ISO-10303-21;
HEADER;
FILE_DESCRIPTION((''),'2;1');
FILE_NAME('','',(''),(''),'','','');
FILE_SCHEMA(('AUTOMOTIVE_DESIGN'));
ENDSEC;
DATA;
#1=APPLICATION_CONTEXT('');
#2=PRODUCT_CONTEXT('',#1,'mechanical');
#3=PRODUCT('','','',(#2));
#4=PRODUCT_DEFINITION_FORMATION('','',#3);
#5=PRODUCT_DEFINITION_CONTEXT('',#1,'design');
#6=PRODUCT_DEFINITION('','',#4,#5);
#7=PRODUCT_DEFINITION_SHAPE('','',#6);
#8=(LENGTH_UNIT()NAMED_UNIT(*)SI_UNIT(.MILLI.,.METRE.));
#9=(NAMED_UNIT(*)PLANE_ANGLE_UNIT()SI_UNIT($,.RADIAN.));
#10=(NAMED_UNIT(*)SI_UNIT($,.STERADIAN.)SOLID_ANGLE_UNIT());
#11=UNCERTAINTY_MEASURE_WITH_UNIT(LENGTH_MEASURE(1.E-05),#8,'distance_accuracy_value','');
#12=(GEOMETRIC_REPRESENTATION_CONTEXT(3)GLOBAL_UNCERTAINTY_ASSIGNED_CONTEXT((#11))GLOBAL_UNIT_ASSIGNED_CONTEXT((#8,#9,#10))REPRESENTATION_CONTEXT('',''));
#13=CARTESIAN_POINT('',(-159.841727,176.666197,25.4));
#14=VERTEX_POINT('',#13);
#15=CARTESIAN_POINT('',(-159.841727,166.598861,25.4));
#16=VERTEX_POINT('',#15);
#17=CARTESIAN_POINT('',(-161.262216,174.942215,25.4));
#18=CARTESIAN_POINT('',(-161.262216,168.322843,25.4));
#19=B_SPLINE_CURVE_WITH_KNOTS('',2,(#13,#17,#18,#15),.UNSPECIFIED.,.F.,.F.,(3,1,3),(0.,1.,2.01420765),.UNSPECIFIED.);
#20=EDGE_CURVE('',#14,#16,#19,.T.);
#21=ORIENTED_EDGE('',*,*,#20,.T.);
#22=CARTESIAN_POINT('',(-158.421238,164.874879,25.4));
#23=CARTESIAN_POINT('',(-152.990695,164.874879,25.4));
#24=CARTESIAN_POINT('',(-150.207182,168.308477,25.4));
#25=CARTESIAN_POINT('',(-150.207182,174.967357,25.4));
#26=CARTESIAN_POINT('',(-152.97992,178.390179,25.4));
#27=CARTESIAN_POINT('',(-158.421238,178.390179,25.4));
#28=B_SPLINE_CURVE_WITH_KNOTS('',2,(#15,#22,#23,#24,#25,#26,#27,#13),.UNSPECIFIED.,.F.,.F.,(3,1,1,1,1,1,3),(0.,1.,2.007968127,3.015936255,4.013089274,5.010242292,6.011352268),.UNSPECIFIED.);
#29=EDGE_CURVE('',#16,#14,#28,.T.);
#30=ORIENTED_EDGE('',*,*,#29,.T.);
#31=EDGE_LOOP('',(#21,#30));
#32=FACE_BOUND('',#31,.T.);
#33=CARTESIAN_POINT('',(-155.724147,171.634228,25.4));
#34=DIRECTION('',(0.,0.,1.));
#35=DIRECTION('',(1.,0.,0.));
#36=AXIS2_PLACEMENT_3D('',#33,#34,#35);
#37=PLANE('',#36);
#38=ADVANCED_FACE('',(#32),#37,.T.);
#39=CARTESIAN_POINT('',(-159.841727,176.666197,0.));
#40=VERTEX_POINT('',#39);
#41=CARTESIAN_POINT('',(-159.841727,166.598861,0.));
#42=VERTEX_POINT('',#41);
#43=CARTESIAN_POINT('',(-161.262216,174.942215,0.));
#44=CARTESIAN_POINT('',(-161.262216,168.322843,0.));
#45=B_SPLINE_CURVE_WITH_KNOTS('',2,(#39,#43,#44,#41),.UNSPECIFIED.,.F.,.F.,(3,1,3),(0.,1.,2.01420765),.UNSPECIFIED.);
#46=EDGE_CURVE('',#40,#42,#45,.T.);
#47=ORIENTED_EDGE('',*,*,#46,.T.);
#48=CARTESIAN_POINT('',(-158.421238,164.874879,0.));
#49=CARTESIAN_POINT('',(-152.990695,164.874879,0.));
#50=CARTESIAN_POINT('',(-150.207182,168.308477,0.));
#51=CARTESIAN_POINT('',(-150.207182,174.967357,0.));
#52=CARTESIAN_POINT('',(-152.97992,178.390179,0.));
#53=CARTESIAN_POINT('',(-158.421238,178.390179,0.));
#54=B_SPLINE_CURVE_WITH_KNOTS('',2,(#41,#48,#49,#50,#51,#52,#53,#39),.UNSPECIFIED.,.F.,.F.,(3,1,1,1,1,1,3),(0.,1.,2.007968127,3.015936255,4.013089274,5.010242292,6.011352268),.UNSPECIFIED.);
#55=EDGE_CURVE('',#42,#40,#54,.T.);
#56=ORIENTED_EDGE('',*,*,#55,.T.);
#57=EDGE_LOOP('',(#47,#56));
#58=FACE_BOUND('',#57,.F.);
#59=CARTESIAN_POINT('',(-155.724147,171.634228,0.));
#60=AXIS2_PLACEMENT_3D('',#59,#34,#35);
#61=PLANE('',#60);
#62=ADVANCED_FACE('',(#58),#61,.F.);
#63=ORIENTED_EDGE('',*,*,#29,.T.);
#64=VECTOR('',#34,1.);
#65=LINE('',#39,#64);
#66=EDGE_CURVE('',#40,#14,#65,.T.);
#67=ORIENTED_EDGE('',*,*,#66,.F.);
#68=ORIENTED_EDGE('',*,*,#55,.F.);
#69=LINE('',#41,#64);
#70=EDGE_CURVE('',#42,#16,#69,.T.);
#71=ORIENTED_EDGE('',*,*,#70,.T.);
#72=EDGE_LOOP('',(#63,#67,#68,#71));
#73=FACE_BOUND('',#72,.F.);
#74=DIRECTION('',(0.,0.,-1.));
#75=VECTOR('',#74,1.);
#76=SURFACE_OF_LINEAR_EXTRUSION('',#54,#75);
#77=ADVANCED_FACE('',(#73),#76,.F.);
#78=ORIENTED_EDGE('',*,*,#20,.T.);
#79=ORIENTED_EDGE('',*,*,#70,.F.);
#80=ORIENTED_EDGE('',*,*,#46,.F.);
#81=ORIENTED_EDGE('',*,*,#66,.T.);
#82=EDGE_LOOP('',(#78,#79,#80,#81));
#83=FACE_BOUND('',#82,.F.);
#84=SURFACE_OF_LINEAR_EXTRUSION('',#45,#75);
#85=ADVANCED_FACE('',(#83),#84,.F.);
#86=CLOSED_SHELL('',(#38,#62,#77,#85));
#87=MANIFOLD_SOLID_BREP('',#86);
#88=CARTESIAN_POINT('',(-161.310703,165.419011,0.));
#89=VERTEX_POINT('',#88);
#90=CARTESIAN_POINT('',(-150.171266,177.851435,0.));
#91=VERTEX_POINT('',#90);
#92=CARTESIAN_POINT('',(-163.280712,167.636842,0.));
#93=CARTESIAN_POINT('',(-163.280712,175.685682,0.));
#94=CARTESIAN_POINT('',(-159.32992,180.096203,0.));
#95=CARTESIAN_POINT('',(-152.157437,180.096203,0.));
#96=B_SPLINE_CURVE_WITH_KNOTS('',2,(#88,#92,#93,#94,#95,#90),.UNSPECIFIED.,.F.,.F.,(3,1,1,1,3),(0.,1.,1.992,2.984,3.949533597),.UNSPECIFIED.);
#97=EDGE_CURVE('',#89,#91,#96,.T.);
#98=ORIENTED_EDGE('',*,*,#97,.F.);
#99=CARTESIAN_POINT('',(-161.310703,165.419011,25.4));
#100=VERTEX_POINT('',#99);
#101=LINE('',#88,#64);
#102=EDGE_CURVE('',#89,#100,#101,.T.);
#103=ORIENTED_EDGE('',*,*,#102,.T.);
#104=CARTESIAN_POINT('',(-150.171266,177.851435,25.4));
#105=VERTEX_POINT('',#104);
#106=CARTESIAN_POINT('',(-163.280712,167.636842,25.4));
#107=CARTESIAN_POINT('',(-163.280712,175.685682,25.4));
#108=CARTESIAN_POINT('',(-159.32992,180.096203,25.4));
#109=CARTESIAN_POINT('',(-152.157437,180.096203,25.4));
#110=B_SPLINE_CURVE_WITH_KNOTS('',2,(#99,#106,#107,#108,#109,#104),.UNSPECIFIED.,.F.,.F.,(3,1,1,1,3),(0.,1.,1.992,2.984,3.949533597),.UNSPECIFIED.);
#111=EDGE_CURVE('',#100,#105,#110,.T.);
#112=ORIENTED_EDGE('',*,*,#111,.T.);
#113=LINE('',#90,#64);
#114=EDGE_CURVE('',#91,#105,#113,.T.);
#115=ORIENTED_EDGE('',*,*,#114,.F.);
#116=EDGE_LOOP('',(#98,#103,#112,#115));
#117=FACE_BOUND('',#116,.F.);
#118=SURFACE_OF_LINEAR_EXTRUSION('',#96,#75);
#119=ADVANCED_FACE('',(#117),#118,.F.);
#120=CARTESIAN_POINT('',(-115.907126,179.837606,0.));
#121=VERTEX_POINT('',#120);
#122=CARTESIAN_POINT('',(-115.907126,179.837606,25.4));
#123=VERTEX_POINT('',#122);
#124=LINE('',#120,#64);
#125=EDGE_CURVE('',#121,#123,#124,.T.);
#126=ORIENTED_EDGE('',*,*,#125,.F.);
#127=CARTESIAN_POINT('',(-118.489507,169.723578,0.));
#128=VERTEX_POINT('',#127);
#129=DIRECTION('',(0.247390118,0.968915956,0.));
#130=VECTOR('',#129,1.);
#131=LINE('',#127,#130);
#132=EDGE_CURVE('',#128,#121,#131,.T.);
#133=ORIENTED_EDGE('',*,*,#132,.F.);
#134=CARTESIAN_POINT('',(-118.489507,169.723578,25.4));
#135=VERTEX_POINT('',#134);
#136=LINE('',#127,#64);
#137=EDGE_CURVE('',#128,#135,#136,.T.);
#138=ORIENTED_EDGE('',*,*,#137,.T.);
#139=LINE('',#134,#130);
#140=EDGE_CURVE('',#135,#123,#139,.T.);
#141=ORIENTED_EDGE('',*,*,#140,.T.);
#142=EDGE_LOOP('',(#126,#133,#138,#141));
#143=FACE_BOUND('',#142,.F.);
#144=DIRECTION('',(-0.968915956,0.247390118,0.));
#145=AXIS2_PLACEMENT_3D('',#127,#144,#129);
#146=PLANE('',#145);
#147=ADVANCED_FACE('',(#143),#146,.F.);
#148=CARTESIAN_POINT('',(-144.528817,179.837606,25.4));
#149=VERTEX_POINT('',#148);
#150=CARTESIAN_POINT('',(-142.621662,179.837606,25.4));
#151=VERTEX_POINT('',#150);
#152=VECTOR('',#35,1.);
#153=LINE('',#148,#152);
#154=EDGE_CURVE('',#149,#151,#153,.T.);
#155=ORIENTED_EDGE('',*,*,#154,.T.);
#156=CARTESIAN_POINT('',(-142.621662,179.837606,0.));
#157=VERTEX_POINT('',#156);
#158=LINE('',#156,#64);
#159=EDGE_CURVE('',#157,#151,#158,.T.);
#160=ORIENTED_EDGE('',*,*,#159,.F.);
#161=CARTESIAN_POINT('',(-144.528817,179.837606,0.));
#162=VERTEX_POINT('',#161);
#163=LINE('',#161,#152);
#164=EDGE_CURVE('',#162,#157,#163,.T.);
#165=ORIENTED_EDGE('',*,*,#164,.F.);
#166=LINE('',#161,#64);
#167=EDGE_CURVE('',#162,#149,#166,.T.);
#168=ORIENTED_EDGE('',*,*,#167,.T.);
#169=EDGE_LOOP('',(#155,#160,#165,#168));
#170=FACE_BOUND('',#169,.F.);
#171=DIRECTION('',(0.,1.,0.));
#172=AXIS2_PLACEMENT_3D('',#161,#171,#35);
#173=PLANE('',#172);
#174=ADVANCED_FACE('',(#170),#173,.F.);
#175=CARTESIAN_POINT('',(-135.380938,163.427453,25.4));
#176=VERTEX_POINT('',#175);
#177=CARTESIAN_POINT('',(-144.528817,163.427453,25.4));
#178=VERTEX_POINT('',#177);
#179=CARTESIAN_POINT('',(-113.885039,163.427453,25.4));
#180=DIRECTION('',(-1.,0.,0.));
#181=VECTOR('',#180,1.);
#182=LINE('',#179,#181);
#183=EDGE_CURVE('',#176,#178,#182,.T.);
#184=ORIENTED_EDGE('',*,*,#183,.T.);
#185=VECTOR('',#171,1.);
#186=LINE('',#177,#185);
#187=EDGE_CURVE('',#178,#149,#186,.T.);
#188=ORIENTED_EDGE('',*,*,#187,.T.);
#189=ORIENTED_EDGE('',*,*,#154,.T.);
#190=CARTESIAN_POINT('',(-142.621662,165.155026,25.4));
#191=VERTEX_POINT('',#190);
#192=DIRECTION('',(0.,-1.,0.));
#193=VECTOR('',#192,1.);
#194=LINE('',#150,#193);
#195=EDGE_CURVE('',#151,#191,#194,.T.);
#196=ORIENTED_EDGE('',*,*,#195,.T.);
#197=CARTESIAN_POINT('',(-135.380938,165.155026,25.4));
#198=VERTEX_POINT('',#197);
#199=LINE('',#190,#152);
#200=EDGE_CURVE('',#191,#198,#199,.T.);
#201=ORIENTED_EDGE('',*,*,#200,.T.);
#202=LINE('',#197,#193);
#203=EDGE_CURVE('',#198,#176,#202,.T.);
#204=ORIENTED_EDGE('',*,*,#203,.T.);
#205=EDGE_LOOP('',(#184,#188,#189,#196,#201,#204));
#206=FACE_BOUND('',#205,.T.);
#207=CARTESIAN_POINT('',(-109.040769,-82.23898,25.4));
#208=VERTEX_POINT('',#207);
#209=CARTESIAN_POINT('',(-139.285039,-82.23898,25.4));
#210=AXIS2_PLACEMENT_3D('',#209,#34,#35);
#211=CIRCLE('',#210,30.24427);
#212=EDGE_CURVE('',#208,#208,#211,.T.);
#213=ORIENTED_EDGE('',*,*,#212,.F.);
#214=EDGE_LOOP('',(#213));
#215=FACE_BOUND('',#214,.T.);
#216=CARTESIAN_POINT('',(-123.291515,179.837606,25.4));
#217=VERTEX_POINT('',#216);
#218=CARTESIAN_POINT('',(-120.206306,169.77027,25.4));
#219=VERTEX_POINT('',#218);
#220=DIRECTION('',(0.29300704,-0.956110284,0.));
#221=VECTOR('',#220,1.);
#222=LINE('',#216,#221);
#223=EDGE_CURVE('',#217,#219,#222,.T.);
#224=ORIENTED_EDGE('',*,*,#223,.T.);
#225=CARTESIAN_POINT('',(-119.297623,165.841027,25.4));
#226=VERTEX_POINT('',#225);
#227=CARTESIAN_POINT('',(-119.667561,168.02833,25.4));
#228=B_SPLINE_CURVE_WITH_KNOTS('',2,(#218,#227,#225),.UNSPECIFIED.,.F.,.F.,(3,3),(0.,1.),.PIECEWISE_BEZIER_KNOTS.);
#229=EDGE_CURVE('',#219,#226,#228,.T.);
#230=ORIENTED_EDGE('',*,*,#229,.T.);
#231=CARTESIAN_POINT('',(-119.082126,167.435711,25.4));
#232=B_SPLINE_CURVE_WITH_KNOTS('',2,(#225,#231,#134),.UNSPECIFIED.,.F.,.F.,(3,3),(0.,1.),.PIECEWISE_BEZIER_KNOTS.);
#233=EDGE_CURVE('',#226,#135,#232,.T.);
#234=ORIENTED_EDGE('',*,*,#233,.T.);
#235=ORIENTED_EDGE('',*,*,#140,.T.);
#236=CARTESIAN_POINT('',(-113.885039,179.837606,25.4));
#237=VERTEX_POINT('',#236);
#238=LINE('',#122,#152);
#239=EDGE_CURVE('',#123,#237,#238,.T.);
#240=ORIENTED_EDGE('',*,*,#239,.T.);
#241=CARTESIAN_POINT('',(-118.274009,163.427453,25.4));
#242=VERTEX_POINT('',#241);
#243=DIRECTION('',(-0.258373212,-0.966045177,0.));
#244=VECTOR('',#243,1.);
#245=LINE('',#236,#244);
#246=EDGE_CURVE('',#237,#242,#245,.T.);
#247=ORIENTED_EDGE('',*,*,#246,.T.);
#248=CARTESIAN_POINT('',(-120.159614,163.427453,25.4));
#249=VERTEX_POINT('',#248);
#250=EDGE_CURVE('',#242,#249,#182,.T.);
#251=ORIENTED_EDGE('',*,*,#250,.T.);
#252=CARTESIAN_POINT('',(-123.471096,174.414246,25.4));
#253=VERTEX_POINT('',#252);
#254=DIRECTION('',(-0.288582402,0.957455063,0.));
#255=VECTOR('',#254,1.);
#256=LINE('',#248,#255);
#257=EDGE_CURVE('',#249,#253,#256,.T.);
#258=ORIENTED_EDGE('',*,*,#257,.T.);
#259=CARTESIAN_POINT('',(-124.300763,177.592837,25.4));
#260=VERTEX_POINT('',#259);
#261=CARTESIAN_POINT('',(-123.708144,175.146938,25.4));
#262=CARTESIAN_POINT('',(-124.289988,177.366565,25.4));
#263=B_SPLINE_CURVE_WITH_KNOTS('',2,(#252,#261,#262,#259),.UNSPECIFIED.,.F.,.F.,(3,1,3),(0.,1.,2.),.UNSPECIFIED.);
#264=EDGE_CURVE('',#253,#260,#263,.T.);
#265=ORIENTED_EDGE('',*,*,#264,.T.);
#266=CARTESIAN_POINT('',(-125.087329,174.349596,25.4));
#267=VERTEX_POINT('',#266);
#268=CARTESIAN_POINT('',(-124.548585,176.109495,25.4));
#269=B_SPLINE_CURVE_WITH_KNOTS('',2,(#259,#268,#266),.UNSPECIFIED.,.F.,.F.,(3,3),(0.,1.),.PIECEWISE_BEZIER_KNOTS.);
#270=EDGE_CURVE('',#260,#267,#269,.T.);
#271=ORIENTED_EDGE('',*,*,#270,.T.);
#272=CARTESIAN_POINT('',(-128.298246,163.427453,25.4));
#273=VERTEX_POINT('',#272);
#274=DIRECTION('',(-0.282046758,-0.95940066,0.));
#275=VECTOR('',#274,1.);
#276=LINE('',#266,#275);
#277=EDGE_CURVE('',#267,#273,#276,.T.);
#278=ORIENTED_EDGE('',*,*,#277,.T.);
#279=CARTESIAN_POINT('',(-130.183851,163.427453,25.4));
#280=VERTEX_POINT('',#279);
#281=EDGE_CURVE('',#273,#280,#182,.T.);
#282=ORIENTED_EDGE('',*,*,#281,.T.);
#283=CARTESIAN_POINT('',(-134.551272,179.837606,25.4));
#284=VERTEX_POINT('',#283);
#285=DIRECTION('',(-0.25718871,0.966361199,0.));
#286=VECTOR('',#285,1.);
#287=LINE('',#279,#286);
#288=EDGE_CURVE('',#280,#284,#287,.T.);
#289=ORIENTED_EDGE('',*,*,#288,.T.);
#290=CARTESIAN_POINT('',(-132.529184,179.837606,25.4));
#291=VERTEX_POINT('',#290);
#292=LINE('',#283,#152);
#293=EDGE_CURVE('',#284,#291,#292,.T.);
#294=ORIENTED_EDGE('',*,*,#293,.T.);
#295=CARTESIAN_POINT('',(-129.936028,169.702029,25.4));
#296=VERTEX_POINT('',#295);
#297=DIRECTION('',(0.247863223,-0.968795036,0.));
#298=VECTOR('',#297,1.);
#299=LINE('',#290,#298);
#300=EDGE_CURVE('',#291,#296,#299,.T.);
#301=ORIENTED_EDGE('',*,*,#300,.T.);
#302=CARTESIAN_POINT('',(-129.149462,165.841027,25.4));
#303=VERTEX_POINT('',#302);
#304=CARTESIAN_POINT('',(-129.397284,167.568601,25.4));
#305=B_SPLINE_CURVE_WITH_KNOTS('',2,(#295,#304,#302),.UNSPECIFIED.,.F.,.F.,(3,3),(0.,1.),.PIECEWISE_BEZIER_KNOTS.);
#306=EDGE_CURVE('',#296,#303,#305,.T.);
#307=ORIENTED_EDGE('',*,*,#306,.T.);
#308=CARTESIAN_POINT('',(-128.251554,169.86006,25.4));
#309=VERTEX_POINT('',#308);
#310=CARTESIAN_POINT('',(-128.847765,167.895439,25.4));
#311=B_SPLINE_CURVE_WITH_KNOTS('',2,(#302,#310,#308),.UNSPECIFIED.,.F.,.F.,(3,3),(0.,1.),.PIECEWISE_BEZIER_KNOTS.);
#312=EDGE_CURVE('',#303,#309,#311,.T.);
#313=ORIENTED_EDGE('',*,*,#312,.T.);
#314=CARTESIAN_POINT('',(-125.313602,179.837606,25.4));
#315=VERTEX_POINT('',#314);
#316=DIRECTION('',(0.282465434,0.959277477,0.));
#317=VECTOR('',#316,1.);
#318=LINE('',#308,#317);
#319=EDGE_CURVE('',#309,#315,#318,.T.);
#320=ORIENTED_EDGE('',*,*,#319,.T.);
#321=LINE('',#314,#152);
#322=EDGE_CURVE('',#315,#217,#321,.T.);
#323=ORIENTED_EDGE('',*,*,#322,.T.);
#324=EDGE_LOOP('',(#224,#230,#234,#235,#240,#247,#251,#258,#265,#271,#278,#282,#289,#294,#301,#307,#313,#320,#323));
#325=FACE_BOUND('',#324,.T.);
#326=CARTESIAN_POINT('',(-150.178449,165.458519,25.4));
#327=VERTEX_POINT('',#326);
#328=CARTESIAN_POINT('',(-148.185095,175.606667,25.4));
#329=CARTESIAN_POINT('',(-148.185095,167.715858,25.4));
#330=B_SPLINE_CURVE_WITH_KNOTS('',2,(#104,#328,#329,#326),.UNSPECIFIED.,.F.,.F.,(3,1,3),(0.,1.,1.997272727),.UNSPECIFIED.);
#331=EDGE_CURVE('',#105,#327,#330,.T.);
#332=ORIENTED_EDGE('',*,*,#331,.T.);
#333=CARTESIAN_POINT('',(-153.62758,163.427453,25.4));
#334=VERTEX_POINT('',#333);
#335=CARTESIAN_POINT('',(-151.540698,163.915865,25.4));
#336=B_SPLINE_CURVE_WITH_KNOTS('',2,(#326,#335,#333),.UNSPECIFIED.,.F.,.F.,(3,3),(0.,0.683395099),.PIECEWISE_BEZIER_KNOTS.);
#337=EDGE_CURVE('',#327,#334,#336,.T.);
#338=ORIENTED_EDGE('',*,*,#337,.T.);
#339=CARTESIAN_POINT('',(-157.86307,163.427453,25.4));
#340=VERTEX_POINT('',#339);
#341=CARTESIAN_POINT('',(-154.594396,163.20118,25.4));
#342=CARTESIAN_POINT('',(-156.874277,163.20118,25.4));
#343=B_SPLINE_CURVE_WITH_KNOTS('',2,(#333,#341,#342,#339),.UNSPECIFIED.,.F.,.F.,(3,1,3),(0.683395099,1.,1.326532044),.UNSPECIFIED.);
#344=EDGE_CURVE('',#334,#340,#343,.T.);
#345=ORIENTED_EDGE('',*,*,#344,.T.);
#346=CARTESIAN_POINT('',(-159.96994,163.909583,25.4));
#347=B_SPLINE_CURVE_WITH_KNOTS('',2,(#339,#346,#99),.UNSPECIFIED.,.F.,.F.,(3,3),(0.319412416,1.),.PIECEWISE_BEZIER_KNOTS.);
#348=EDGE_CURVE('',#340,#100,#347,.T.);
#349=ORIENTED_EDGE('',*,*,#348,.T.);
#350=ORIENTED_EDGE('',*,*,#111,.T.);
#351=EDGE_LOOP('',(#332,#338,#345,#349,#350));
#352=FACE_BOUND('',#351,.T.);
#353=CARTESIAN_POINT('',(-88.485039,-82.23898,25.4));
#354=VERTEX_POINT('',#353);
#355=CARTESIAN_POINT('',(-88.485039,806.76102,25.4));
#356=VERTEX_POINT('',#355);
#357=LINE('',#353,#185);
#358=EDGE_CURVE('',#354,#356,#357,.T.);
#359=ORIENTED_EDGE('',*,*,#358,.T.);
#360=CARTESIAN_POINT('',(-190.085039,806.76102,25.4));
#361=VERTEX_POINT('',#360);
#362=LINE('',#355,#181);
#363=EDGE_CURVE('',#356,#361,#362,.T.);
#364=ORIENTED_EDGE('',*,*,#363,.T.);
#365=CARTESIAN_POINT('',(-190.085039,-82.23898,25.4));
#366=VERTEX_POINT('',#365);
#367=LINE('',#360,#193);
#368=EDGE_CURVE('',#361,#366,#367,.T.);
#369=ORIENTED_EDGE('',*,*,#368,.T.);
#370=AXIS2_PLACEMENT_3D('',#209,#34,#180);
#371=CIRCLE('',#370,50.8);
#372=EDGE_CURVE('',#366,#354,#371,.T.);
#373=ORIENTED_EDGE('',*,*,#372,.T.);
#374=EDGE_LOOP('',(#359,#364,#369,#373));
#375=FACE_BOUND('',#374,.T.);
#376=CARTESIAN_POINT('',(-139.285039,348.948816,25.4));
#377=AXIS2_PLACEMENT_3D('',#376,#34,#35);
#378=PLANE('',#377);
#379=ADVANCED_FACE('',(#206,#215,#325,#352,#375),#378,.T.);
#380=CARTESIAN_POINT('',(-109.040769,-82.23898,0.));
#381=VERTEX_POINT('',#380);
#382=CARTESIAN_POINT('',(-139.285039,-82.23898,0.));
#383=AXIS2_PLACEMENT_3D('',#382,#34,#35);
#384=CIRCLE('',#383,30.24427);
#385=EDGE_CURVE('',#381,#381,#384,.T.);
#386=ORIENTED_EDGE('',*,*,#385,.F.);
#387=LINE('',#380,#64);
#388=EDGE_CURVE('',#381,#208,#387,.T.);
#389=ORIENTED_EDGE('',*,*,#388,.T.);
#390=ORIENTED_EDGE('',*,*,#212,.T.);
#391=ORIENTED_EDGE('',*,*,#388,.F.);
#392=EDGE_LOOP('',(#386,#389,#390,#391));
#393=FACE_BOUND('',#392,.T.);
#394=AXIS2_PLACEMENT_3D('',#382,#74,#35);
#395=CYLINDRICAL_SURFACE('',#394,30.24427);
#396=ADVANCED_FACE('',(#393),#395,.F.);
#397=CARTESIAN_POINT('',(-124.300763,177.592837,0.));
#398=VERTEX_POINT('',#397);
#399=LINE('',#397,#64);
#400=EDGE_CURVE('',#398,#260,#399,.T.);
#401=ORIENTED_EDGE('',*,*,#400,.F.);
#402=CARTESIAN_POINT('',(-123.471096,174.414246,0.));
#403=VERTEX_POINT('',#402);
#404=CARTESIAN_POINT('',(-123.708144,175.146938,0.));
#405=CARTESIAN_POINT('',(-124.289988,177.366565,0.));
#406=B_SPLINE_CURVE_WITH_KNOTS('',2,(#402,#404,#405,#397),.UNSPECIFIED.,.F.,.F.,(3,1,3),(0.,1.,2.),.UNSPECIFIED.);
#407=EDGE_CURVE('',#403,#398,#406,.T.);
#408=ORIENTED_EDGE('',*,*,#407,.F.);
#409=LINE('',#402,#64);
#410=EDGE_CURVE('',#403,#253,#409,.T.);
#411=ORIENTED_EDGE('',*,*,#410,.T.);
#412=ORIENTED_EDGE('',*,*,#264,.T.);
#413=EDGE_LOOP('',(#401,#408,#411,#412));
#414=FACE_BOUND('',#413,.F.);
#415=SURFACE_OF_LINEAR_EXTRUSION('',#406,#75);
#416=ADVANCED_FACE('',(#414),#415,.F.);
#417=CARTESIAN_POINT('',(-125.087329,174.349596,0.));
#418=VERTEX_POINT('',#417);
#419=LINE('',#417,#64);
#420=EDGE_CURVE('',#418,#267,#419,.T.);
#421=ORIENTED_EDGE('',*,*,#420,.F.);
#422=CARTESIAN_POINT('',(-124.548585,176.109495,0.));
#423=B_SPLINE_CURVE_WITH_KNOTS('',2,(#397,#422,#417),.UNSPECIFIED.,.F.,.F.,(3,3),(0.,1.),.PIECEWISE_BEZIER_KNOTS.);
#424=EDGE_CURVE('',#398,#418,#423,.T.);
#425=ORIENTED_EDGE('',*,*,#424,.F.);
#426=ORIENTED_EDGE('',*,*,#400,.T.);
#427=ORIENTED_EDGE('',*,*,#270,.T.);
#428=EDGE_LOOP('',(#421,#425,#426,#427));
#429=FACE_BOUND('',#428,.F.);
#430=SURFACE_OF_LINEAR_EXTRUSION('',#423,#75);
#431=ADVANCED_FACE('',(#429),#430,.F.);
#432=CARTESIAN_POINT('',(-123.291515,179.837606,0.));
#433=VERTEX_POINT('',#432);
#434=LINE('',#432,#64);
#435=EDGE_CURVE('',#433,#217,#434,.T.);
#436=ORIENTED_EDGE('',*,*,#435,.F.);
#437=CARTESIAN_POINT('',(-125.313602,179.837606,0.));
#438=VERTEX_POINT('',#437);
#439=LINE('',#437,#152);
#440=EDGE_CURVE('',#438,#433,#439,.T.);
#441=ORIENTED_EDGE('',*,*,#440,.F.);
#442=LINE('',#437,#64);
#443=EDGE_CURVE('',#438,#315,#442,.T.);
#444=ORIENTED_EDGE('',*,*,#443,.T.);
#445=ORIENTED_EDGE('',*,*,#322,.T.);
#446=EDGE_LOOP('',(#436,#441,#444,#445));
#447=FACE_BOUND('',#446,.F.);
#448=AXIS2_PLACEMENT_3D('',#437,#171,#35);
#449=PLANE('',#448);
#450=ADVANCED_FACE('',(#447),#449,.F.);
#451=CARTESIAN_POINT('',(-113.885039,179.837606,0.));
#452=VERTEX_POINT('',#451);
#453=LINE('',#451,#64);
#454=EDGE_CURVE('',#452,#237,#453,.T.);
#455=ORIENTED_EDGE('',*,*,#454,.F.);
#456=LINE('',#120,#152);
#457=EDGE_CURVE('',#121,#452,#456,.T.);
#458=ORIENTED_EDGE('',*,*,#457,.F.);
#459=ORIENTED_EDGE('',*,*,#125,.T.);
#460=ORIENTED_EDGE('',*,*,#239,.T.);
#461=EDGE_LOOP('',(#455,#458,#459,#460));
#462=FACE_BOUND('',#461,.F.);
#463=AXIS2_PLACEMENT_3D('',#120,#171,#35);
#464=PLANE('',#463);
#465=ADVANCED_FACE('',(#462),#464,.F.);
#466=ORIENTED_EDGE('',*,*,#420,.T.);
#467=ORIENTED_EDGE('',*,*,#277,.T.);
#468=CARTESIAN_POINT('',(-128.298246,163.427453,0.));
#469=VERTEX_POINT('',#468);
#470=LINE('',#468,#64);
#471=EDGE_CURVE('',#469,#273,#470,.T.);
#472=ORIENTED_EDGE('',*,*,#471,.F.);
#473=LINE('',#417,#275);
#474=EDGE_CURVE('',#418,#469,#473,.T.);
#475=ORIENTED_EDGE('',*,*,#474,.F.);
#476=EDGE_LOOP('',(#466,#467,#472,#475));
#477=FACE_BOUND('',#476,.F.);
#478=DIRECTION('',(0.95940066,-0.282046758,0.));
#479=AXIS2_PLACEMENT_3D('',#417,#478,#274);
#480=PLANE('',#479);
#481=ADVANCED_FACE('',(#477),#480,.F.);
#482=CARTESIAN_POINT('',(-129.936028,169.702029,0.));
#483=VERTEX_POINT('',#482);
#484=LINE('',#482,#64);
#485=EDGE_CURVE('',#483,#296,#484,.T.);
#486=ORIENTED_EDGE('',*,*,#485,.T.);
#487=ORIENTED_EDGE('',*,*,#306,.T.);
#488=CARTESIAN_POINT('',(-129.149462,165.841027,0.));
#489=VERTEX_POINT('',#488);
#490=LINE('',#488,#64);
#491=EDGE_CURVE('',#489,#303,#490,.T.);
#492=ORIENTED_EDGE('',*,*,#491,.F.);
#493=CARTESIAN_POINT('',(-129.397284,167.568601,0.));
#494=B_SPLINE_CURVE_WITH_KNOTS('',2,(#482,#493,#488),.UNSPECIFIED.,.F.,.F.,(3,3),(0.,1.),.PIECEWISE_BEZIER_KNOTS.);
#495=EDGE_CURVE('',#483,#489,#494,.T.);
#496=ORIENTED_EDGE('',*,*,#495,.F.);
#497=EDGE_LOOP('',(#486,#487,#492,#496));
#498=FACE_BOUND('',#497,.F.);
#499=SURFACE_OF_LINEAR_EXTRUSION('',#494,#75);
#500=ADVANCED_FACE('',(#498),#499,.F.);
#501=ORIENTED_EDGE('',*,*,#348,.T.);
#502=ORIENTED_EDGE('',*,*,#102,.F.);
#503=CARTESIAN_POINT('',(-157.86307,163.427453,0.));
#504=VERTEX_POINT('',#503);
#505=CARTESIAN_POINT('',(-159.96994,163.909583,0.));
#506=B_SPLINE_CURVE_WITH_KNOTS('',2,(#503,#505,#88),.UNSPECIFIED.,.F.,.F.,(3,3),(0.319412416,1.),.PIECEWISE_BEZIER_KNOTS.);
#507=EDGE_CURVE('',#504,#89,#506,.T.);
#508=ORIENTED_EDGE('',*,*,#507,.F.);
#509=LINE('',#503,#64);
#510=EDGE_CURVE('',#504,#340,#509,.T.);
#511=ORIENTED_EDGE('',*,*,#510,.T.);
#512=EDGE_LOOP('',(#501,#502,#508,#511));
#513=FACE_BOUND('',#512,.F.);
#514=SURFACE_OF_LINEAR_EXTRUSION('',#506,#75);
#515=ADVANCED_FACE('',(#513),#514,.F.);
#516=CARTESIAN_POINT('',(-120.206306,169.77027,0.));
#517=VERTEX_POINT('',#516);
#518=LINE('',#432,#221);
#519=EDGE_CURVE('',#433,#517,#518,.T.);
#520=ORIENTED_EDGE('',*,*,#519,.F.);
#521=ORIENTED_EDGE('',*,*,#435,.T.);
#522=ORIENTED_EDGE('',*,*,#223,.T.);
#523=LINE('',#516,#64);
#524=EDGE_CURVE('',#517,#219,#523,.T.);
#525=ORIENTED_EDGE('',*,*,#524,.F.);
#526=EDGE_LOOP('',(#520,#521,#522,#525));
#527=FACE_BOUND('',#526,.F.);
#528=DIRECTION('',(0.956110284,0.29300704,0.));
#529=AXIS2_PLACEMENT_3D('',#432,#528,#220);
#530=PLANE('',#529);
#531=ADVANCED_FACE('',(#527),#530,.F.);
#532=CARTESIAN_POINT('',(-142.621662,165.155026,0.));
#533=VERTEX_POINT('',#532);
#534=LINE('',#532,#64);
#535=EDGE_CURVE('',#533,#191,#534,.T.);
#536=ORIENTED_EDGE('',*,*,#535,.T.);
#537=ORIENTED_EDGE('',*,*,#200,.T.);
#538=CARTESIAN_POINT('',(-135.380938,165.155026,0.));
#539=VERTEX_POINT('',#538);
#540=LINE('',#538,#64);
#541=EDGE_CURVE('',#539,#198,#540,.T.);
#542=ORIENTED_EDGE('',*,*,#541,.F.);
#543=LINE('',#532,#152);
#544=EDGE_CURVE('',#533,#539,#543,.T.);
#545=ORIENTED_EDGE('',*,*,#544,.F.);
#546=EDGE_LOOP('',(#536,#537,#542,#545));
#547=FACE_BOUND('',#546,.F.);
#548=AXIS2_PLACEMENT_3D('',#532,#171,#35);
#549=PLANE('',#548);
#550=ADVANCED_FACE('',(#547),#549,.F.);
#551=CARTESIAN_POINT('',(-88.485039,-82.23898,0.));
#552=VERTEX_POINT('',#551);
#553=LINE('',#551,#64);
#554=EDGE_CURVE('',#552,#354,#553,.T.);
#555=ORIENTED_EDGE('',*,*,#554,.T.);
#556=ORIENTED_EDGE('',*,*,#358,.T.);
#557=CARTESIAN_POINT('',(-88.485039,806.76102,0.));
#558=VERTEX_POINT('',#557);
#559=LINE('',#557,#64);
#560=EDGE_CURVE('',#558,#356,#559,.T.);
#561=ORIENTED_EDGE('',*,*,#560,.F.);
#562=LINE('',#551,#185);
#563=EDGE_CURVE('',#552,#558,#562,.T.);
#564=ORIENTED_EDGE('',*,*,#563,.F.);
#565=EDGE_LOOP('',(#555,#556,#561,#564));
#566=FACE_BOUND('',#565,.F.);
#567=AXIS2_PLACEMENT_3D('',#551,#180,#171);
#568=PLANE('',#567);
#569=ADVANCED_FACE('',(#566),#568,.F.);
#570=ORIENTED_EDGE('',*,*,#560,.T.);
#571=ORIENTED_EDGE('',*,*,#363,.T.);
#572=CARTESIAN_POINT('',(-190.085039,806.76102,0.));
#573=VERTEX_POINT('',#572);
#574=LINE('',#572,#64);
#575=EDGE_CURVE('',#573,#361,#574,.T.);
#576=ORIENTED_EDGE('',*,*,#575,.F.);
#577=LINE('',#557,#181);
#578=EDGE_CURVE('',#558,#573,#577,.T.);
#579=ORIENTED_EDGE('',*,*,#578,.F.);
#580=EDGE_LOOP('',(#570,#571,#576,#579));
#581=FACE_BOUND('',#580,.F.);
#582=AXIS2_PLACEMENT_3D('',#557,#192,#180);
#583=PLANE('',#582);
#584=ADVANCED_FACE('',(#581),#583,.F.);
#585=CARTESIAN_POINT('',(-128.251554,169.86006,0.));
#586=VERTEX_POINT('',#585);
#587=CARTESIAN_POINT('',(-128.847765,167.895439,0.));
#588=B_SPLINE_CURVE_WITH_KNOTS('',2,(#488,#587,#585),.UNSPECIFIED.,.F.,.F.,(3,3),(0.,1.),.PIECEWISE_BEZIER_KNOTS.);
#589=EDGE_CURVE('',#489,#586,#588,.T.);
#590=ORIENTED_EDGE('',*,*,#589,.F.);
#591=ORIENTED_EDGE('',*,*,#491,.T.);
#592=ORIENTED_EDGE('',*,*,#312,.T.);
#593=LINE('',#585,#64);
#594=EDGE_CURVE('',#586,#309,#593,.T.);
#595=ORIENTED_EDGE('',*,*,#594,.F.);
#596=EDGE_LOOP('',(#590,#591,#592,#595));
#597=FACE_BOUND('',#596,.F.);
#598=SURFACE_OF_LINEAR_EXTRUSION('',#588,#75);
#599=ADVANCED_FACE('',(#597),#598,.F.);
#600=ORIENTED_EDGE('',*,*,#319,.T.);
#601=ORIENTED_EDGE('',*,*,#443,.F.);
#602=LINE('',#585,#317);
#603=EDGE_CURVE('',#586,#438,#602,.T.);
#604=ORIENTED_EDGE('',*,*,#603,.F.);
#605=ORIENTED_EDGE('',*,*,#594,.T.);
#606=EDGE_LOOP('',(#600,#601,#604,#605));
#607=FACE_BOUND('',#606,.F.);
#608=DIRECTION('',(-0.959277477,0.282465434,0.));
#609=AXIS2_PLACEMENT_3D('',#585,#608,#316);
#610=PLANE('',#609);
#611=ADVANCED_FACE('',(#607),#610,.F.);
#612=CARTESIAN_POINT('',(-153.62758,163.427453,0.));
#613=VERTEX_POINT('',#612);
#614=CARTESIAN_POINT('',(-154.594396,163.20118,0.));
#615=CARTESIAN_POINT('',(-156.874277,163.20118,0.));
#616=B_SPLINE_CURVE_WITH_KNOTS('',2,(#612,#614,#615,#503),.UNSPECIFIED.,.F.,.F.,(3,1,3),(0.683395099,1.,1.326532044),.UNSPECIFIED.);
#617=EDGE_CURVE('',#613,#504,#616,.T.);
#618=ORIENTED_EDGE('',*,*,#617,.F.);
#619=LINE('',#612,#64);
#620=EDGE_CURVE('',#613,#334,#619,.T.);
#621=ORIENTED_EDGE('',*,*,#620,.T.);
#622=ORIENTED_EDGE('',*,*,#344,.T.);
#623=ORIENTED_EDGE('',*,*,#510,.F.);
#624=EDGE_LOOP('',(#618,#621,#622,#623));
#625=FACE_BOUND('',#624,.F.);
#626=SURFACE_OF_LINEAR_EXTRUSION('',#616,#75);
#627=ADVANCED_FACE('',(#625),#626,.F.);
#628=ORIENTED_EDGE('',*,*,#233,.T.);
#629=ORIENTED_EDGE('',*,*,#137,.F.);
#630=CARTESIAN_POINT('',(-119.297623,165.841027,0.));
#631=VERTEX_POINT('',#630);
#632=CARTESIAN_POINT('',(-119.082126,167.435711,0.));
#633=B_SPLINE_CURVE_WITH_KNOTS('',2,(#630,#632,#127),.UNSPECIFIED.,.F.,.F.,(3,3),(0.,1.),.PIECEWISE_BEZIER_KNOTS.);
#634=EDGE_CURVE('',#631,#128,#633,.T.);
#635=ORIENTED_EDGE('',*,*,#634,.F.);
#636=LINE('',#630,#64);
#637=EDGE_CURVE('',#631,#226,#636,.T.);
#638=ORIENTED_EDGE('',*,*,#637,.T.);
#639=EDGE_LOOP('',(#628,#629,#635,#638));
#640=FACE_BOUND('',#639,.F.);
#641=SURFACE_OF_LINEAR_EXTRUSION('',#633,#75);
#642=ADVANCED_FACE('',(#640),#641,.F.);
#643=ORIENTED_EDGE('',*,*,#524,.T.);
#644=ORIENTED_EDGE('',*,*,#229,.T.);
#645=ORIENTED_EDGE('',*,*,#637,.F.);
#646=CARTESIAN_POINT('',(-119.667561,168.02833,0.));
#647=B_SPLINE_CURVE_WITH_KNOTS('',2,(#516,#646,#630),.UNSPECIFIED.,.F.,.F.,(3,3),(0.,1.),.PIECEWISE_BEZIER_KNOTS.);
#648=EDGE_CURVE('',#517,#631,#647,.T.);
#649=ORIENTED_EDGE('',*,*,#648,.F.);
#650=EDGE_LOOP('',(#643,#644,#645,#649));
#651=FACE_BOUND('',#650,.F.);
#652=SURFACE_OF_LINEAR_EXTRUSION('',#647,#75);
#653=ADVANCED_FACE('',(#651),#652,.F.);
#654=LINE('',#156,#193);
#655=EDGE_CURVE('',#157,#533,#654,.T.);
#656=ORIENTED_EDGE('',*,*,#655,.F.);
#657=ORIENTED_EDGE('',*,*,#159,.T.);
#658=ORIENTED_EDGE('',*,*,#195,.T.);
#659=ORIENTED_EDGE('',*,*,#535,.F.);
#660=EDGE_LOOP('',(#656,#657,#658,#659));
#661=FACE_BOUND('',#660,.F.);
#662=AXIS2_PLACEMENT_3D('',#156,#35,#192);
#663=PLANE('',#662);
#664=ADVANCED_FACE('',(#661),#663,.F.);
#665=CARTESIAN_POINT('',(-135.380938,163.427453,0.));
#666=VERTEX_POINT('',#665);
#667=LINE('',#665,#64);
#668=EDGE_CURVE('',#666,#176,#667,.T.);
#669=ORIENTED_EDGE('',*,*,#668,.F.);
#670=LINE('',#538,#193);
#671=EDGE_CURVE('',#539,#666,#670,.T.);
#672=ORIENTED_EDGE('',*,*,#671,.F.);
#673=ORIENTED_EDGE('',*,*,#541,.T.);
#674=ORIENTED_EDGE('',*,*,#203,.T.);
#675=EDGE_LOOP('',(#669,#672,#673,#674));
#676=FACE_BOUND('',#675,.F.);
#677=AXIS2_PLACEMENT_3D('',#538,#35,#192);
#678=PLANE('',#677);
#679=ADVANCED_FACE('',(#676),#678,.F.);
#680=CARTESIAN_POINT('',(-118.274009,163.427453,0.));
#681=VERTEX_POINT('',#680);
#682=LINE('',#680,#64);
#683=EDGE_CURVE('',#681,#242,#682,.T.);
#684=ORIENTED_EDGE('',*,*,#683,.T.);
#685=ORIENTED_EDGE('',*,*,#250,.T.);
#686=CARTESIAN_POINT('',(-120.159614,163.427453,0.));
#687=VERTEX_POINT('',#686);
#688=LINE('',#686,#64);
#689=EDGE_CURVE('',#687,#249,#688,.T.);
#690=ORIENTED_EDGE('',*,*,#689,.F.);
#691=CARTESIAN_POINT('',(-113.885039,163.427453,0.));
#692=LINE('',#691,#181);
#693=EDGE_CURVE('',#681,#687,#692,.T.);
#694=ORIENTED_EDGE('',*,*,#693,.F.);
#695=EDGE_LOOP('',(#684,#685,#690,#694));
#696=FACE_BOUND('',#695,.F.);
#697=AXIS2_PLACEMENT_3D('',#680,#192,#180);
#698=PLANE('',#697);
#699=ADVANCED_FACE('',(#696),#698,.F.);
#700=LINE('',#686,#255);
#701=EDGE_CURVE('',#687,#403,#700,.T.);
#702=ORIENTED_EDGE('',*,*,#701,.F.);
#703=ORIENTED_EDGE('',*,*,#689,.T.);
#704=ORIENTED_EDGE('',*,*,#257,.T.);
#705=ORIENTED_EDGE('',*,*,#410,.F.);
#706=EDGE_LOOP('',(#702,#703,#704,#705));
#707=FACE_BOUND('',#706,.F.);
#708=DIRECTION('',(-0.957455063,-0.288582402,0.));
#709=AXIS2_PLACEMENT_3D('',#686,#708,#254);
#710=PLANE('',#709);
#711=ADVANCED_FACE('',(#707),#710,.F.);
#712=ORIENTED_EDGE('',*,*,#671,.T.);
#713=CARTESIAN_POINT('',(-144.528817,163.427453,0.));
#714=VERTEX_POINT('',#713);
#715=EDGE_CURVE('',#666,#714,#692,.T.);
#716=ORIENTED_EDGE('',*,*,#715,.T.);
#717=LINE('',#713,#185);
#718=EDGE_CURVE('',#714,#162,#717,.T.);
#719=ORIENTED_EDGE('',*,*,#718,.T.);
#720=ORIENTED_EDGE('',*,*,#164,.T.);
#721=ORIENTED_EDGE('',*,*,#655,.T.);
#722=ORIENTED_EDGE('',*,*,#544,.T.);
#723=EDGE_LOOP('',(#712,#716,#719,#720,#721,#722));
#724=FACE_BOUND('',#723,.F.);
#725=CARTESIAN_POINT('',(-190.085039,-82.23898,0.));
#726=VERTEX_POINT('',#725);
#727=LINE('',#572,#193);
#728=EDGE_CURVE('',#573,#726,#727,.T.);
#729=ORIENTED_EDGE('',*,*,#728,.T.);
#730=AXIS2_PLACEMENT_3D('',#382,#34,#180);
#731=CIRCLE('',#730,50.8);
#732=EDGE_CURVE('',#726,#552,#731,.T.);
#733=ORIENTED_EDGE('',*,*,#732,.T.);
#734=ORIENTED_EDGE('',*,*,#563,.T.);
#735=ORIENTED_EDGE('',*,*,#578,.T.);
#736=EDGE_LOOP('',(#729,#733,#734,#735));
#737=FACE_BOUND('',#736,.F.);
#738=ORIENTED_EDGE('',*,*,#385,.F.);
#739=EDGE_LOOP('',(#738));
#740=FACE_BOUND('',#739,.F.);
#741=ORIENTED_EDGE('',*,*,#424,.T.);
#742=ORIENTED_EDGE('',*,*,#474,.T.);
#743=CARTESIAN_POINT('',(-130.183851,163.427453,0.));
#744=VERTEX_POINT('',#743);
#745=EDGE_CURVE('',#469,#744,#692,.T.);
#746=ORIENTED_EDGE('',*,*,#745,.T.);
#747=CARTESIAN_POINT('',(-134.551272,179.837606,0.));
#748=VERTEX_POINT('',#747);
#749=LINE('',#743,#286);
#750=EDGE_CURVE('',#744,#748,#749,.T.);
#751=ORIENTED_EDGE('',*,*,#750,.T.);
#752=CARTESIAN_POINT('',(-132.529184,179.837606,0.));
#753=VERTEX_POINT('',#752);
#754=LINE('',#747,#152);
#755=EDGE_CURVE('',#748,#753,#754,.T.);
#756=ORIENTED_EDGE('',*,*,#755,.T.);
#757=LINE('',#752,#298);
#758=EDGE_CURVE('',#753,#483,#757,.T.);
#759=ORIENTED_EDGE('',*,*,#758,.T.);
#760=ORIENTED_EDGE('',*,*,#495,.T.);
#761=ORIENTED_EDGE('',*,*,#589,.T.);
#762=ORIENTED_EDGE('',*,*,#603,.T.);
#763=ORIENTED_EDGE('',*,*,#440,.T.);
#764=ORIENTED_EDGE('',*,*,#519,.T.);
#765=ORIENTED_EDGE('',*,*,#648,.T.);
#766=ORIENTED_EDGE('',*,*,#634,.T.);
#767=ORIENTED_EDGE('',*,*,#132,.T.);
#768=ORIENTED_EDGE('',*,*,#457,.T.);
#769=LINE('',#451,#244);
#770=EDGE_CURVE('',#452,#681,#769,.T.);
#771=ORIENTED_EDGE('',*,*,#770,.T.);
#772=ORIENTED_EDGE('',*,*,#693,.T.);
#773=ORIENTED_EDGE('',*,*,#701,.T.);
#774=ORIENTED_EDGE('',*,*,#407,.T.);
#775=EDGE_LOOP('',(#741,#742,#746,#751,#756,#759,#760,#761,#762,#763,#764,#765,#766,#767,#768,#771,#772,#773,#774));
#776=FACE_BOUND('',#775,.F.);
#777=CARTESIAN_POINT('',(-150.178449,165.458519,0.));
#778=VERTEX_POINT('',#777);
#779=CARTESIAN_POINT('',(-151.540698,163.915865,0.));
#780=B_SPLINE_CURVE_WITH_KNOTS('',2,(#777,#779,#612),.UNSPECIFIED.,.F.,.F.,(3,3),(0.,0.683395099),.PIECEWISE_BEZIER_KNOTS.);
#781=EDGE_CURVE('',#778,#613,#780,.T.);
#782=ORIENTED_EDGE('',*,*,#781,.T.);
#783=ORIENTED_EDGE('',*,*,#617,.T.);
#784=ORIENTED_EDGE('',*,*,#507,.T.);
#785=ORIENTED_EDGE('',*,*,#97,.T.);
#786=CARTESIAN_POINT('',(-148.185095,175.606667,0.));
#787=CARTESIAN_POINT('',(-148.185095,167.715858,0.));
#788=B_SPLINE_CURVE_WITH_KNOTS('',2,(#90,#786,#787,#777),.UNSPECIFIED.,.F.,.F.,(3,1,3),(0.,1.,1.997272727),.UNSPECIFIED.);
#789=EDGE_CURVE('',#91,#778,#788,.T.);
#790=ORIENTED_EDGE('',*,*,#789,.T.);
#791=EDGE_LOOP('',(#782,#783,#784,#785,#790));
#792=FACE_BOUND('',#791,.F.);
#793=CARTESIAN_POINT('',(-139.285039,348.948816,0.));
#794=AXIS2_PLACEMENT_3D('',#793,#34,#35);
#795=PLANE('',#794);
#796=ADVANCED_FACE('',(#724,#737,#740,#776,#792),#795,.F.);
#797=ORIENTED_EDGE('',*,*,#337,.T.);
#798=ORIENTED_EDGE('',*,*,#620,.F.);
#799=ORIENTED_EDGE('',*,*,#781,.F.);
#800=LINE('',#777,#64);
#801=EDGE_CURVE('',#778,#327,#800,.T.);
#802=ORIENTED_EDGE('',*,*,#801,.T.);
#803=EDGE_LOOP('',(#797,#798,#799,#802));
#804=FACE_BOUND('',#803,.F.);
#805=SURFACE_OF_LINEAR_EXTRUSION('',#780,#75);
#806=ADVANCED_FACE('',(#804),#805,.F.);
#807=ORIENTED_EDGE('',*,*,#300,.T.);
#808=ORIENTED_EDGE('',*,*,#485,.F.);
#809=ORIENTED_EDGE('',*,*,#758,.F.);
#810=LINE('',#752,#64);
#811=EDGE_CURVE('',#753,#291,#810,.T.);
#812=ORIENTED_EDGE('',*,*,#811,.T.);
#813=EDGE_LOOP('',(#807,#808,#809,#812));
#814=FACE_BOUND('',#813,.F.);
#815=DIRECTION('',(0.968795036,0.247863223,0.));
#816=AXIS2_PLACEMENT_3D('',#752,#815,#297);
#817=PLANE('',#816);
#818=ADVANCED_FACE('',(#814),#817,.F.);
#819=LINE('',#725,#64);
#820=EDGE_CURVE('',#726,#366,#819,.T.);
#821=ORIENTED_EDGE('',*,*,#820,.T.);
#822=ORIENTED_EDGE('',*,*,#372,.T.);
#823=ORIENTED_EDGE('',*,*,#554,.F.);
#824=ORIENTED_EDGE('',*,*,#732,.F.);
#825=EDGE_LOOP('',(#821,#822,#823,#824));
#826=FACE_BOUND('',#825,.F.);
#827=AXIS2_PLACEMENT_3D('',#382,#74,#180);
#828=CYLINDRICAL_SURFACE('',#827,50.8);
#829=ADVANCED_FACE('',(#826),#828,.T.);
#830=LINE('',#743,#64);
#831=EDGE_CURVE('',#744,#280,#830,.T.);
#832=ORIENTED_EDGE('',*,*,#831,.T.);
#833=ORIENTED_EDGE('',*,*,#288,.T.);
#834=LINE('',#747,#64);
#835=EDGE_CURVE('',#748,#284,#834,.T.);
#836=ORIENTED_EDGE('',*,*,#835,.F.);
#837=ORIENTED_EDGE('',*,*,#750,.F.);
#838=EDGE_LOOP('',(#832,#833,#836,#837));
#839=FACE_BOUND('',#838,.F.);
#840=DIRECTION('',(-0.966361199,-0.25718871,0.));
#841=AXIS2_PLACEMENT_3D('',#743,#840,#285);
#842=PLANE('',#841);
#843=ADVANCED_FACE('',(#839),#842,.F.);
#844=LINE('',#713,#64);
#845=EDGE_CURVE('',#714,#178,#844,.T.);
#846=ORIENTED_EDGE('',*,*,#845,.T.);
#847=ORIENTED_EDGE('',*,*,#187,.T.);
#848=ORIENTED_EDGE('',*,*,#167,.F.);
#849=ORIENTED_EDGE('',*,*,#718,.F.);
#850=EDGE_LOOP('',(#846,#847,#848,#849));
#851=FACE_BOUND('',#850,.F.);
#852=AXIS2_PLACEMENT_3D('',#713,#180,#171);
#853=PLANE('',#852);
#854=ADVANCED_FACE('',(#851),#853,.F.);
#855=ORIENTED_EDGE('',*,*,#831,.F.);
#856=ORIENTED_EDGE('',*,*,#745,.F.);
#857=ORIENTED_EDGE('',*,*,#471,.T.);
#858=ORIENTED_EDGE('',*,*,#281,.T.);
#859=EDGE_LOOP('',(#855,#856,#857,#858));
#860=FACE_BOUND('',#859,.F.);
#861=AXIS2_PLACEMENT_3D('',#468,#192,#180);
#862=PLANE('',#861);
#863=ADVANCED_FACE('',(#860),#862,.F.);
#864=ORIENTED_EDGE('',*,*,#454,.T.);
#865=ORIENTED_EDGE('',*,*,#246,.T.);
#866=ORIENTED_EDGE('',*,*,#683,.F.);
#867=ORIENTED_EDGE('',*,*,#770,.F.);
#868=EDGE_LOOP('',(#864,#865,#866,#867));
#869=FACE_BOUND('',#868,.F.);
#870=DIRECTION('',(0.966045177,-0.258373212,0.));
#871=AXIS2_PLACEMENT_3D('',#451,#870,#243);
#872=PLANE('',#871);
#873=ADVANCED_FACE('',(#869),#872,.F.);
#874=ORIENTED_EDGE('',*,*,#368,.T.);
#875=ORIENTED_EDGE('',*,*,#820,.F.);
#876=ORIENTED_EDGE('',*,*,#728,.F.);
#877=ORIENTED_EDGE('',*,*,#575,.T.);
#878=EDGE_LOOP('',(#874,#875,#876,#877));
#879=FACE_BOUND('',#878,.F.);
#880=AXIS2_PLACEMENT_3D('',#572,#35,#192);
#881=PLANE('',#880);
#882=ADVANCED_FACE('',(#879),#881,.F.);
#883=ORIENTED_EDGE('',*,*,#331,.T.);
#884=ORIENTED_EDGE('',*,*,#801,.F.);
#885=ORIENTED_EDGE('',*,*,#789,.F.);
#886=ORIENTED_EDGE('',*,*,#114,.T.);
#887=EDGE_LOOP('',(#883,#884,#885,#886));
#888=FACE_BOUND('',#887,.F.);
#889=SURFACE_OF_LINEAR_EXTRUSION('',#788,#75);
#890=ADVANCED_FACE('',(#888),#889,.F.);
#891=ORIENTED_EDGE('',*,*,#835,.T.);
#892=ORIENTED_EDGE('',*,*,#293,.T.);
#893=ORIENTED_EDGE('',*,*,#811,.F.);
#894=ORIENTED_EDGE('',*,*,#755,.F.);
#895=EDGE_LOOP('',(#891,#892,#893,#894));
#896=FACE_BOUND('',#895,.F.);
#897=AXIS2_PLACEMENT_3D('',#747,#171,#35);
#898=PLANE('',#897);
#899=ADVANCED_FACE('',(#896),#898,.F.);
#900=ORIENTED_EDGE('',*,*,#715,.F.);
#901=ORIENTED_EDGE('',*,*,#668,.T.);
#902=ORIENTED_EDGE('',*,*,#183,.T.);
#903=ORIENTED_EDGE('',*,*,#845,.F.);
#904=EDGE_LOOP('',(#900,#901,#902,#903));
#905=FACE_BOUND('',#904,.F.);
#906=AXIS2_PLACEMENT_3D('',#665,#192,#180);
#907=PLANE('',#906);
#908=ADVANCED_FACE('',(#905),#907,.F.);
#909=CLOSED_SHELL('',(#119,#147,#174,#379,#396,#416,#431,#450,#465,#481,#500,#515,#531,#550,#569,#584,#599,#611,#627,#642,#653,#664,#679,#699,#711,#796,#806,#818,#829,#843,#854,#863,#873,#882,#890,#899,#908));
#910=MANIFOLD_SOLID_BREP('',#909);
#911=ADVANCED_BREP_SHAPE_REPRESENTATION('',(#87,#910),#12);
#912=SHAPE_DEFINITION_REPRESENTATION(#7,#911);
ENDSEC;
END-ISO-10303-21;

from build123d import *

# Parameters (mm, degrees)
F0_R     = 30.2442698834
F1_DEPTH = 25.4


with BuildPart() as f1:
    # F0 (on Top) → F1 (new body)
    with BuildSketch(Plane.XY):
        with BuildLine():
            ThreePointArc((-190.0850385427, -82.2389796376), (-139.2850385427, -133.0389796376), (-88.4850385427, -82.2389796376))
            Line((-88.4850385427, -82.2389796376), (-88.4850385427, 806.7610203624))
            Line((-88.4850385427, 806.7610203624), (-190.0850385427, 806.7610203624))
            Line((-190.0850385427, 806.7610203624), (-190.0850385427, -82.2389796376))
        make_face()
        with Locations((-139.2850385427, -82.2389796376)):
            Circle(F0_R, mode=Mode.SUBTRACT)
        with BuildLine():
            Line((-113.8850385427, 179.8376055464), (-113.8850385427, 163.4274528315))
            Line((-113.8850385427, 163.4274528315), (-118.274009131, 163.4274528315))
            Line((-118.274009131, 163.4274528315), (-120.1596143346, 163.4274528315))
            Line((-120.1596143346, 163.4274528315), (-128.2982455563, 163.4274528315))
            Line((-128.2982455563, 163.4274528315), (-130.1838507599, 163.4274528315))
            Line((-130.1838507599, 163.4274528315), (-135.380937864, 163.4274528315))
            Line((-135.380937864, 163.4274528315), (-144.5288168233, 163.4274528315))
            Line((-144.5288168233, 163.4274528315), (-153.6275803556, 163.4274528315))
            add(Edge.make_bspline(
                [(-153.6275803556, 163.4274528315), (-154.5943963548, 163.201180207), (-155.7167410314, 163.201180207)],
                knots=[0.6833950988, 0.6833950988, 0.6833950988, 1, 1, 1], degree=2))
            add(Edge.make_bspline(
                [(-155.7167410314, 163.201180207), (-156.8742768127, 163.201180207), (-157.8630700132, 163.4274528315)],
                knots=[0, 0, 0, 0.319412416, 0.319412416, 0.319412416], degree=2))
            Line((-157.8630700132, 163.4274528315), (-164.6850385427, 163.4274528315))
            Line((-164.6850385427, 163.4274528315), (-164.6850385427, 713.4521007538))
            Line((-164.6850385427, 713.4521007538), (-113.8850385427, 713.4521007538))
            Line((-113.8850385427, 713.4521007538), (-113.8850385427, 179.8376055464))
        make_face(mode=Mode.SUBTRACT)
        with BuildLine():
            Line((-115.9071256468, 179.8376055464), (-113.8850385427, 179.8376055464))
            Line((-113.8850385427, 179.8376055464), (-113.8850385427, 713.4521007538))
            Line((-113.8850385427, 713.4521007538), (-164.6850385427, 713.4521007538))
            Line((-164.6850385427, 713.4521007538), (-164.6850385427, 163.4274528315))
            Line((-164.6850385427, 163.4274528315), (-157.8630700132, 163.4274528315))
            add(Edge.make_bspline(
                [(-157.8630700132, 163.4274528315), (-159.9699398208, 163.9095829275), (-161.3107031355, 165.4190110894)],
                knots=[0.319412416, 0.319412416, 0.319412416, 1, 1, 1], degree=2))
            add(Edge.make_bspline(
                [(-161.3107031355, 165.4190110894), (-163.2807116197, 167.6368419717), (-163.2807116197, 171.6774245509)],
                knots=[0, 0, 0, 1, 1, 1], degree=2))
            add(Edge.make_bspline(
                [(-163.2807116197, 171.6774245509), (-163.2807116197, 175.6856824695), (-161.3053156921, 177.8909426505)],
                knots=[0, 0, 0, 1, 1, 1], degree=2))
            add(Edge.make_bspline(
                [(-161.3053156921, 177.8909426505), (-159.3299197645, 180.0962028315), (-155.6951912577, 180.0962028315)],
                knots=[0, 0, 0, 1, 1, 1], degree=2))
            add(Edge.make_bspline(
                [(-155.6951912577, 180.0962028315), (-152.1574367328, 180.0962028315), (-150.1712659183, 177.8514347319)],
                knots=[0, 0, 0, 1, 1, 1], degree=2))
            add(Edge.make_bspline(
                [(-150.1712659183, 177.8514347319), (-148.1850951038, 175.6066666324), (-148.1850951038, 171.6558747772)],
                knots=[0, 0, 0, 1, 1, 1], degree=2))
            add(Edge.make_bspline(
                [(-148.1850951038, 171.6558747772), (-148.1850951038, 167.7158578088), (-150.1784491762, 165.4585190079)],
                knots=[0, 0, 0, 1, 1, 1], degree=2))
            add(Edge.make_bspline(
                [(-150.1784491762, 165.4585190079), (-151.5406975794, 163.9158647351), (-153.6275803556, 163.4274528315)],
                knots=[0, 0, 0, 0.6833950988, 0.6833950988, 0.6833950988], degree=2))
            Line((-153.6275803556, 163.4274528315), (-144.5288168233, 163.4274528315))
            Line((-144.5288168233, 163.4274528315), (-144.5288168233, 179.8376055464))
            Line((-144.5288168233, 179.8376055464), (-142.6216618459, 179.8376055464))
            Line((-142.6216618459, 179.8376055464), (-142.6216618459, 165.1550263609))
            Line((-142.6216618459, 165.1550263609), (-135.380937864, 165.1550263609))
            Line((-135.380937864, 165.1550263609), (-135.380937864, 163.4274528315))
            Line((-135.380937864, 163.4274528315), (-130.1838507599, 163.4274528315))
            Line((-130.1838507599, 163.4274528315), (-134.5512715744, 179.8376055464))
            Line((-134.5512715744, 179.8376055464), (-132.5291844703, 179.8376055464))
            Line((-132.5291844703, 179.8376055464), (-129.9360283618, 169.7020286233))
            add(Edge.make_bspline(
                [(-129.9360283618, 169.7020286233), (-129.3972840179, 167.5686010215), (-129.1494616197, 165.8410274921)],
                knots=[0, 0, 0, 1, 1, 1], degree=2))
            add(Edge.make_bspline(
                [(-129.1494616197, 165.8410274921), (-128.8477647871, 167.8954392568), (-128.2515543799, 169.8600602975)],
                knots=[0, 0, 0, 1, 1, 1], degree=2))
            Line((-128.2515543799, 169.8600602975), (-125.3136018912, 179.8376055464))
            Line((-125.3136018912, 179.8376055464), (-123.2915147871, 179.8376055464))
            Line((-123.2915147871, 179.8376055464), (-120.2063055111, 169.7702695735))
            add(Edge.make_bspline(
                [(-120.2063055111, 169.7702695735), (-119.6675611672, 168.0283295283), (-119.2976233844, 165.8410274921)],
                knots=[0, 0, 0, 1, 1, 1], degree=2))
            add(Edge.make_bspline(
                [(-119.2976233844, 165.8410274921), (-119.0821256468, 167.43571075), (-118.4895068685, 169.7235783971)],
                knots=[0, 0, 0, 1, 1, 1], degree=2))
            Line((-118.4895068685, 169.7235783971), (-115.9071256468, 179.8376055464))
        make_face()
        with BuildLine():
            Line((-128.2982455563, 163.4274528315), (-120.1596143346, 163.4274528315))
            Line((-120.1596143346, 163.4274528315), (-123.4710962351, 174.4142458179))
            add(Edge.make_bspline(
                [(-123.4710962351, 174.4142458179), (-123.7081437464, 175.1469381256), (-123.9990656921, 176.256751474)],
                knots=[0, 0, 0, 1, 1, 1], degree=2))
            add(Edge.make_bspline(
                [(-123.9990656921, 176.256751474), (-124.2899876378, 177.3665648224), (-124.3007625246, 177.5928374468)],
                knots=[0, 0, 0, 1, 1, 1], degree=2))
            add(Edge.make_bspline(
                [(-124.3007625246, 177.5928374468), (-124.5485849228, 176.1094946867), (-125.0873292667, 174.3495964966)],
                knots=[0, 0, 0, 1, 1, 1], degree=2))
            Line((-125.0873292667, 174.3495964966), (-128.2982455563, 163.4274528315))
        make_face()
        Polygon((-118.274009131, 163.4274528315), (-113.8850385427, 163.4274528315), (-113.8850385427, 179.8376055464), align=None)
    extrude(amount=F1_DEPTH)


with BuildPart() as f1b:
    # F0 (on Top) → F1, piece 2 (new body)
    with BuildSketch(Plane.XY):
        with BuildLine():
            add(Edge.make_bspline(
                [(-159.8417268912, 176.6661971754), (-161.2622161446, 174.9422152749), (-161.2622161446, 171.6558747772)],
                knots=[0, 0, 0, 1, 1, 1], degree=2))
            add(Edge.make_bspline(
                [(-161.2622161446, 171.6558747772), (-161.2622161446, 168.322843103), (-159.8417268912, 166.5988612025)],
                knots=[0, 0, 0, 1, 1, 1], degree=2))
            add(Edge.make_bspline(
                [(-159.8417268912, 166.5988612025), (-158.4212376378, 164.8748793021), (-155.7167410314, 164.8748793021)],
                knots=[0, 0, 0, 1, 1, 1], degree=2))
            add(Edge.make_bspline(
                [(-155.7167410314, 164.8748793021), (-152.9906946513, 164.8748793021), (-151.5989384296, 166.5916779446)],
                knots=[0, 0, 0, 1, 1, 1], degree=2))
            add(Edge.make_bspline(
                [(-151.5989384296, 166.5916779446), (-150.2071822079, 168.3084765871), (-150.2071822079, 171.6558747772)],
                knots=[0, 0, 0, 1, 1, 1], degree=2))
            add(Edge.make_bspline(
                [(-150.2071822079, 171.6558747772), (-150.2071822079, 174.9673566776), (-151.5935509862, 176.6787678767)],
                knots=[0, 0, 0, 1, 1, 1], degree=2))
            add(Edge.make_bspline(
                [(-151.5935509862, 176.6787678767), (-152.9799197645, 178.3901790758), (-155.6951912577, 178.3901790758)],
                knots=[0, 0, 0, 1, 1, 1], degree=2))
            add(Edge.make_bspline(
                [(-155.6951912577, 178.3901790758), (-158.4212376378, 178.3901790758), (-159.8417268912, 176.6661971754)],
                knots=[0, 0, 0, 1, 1, 1], degree=2))
        make_face()
    extrude(amount=F1_DEPTH)


solid = Compound([f1.part, f1b.part])
